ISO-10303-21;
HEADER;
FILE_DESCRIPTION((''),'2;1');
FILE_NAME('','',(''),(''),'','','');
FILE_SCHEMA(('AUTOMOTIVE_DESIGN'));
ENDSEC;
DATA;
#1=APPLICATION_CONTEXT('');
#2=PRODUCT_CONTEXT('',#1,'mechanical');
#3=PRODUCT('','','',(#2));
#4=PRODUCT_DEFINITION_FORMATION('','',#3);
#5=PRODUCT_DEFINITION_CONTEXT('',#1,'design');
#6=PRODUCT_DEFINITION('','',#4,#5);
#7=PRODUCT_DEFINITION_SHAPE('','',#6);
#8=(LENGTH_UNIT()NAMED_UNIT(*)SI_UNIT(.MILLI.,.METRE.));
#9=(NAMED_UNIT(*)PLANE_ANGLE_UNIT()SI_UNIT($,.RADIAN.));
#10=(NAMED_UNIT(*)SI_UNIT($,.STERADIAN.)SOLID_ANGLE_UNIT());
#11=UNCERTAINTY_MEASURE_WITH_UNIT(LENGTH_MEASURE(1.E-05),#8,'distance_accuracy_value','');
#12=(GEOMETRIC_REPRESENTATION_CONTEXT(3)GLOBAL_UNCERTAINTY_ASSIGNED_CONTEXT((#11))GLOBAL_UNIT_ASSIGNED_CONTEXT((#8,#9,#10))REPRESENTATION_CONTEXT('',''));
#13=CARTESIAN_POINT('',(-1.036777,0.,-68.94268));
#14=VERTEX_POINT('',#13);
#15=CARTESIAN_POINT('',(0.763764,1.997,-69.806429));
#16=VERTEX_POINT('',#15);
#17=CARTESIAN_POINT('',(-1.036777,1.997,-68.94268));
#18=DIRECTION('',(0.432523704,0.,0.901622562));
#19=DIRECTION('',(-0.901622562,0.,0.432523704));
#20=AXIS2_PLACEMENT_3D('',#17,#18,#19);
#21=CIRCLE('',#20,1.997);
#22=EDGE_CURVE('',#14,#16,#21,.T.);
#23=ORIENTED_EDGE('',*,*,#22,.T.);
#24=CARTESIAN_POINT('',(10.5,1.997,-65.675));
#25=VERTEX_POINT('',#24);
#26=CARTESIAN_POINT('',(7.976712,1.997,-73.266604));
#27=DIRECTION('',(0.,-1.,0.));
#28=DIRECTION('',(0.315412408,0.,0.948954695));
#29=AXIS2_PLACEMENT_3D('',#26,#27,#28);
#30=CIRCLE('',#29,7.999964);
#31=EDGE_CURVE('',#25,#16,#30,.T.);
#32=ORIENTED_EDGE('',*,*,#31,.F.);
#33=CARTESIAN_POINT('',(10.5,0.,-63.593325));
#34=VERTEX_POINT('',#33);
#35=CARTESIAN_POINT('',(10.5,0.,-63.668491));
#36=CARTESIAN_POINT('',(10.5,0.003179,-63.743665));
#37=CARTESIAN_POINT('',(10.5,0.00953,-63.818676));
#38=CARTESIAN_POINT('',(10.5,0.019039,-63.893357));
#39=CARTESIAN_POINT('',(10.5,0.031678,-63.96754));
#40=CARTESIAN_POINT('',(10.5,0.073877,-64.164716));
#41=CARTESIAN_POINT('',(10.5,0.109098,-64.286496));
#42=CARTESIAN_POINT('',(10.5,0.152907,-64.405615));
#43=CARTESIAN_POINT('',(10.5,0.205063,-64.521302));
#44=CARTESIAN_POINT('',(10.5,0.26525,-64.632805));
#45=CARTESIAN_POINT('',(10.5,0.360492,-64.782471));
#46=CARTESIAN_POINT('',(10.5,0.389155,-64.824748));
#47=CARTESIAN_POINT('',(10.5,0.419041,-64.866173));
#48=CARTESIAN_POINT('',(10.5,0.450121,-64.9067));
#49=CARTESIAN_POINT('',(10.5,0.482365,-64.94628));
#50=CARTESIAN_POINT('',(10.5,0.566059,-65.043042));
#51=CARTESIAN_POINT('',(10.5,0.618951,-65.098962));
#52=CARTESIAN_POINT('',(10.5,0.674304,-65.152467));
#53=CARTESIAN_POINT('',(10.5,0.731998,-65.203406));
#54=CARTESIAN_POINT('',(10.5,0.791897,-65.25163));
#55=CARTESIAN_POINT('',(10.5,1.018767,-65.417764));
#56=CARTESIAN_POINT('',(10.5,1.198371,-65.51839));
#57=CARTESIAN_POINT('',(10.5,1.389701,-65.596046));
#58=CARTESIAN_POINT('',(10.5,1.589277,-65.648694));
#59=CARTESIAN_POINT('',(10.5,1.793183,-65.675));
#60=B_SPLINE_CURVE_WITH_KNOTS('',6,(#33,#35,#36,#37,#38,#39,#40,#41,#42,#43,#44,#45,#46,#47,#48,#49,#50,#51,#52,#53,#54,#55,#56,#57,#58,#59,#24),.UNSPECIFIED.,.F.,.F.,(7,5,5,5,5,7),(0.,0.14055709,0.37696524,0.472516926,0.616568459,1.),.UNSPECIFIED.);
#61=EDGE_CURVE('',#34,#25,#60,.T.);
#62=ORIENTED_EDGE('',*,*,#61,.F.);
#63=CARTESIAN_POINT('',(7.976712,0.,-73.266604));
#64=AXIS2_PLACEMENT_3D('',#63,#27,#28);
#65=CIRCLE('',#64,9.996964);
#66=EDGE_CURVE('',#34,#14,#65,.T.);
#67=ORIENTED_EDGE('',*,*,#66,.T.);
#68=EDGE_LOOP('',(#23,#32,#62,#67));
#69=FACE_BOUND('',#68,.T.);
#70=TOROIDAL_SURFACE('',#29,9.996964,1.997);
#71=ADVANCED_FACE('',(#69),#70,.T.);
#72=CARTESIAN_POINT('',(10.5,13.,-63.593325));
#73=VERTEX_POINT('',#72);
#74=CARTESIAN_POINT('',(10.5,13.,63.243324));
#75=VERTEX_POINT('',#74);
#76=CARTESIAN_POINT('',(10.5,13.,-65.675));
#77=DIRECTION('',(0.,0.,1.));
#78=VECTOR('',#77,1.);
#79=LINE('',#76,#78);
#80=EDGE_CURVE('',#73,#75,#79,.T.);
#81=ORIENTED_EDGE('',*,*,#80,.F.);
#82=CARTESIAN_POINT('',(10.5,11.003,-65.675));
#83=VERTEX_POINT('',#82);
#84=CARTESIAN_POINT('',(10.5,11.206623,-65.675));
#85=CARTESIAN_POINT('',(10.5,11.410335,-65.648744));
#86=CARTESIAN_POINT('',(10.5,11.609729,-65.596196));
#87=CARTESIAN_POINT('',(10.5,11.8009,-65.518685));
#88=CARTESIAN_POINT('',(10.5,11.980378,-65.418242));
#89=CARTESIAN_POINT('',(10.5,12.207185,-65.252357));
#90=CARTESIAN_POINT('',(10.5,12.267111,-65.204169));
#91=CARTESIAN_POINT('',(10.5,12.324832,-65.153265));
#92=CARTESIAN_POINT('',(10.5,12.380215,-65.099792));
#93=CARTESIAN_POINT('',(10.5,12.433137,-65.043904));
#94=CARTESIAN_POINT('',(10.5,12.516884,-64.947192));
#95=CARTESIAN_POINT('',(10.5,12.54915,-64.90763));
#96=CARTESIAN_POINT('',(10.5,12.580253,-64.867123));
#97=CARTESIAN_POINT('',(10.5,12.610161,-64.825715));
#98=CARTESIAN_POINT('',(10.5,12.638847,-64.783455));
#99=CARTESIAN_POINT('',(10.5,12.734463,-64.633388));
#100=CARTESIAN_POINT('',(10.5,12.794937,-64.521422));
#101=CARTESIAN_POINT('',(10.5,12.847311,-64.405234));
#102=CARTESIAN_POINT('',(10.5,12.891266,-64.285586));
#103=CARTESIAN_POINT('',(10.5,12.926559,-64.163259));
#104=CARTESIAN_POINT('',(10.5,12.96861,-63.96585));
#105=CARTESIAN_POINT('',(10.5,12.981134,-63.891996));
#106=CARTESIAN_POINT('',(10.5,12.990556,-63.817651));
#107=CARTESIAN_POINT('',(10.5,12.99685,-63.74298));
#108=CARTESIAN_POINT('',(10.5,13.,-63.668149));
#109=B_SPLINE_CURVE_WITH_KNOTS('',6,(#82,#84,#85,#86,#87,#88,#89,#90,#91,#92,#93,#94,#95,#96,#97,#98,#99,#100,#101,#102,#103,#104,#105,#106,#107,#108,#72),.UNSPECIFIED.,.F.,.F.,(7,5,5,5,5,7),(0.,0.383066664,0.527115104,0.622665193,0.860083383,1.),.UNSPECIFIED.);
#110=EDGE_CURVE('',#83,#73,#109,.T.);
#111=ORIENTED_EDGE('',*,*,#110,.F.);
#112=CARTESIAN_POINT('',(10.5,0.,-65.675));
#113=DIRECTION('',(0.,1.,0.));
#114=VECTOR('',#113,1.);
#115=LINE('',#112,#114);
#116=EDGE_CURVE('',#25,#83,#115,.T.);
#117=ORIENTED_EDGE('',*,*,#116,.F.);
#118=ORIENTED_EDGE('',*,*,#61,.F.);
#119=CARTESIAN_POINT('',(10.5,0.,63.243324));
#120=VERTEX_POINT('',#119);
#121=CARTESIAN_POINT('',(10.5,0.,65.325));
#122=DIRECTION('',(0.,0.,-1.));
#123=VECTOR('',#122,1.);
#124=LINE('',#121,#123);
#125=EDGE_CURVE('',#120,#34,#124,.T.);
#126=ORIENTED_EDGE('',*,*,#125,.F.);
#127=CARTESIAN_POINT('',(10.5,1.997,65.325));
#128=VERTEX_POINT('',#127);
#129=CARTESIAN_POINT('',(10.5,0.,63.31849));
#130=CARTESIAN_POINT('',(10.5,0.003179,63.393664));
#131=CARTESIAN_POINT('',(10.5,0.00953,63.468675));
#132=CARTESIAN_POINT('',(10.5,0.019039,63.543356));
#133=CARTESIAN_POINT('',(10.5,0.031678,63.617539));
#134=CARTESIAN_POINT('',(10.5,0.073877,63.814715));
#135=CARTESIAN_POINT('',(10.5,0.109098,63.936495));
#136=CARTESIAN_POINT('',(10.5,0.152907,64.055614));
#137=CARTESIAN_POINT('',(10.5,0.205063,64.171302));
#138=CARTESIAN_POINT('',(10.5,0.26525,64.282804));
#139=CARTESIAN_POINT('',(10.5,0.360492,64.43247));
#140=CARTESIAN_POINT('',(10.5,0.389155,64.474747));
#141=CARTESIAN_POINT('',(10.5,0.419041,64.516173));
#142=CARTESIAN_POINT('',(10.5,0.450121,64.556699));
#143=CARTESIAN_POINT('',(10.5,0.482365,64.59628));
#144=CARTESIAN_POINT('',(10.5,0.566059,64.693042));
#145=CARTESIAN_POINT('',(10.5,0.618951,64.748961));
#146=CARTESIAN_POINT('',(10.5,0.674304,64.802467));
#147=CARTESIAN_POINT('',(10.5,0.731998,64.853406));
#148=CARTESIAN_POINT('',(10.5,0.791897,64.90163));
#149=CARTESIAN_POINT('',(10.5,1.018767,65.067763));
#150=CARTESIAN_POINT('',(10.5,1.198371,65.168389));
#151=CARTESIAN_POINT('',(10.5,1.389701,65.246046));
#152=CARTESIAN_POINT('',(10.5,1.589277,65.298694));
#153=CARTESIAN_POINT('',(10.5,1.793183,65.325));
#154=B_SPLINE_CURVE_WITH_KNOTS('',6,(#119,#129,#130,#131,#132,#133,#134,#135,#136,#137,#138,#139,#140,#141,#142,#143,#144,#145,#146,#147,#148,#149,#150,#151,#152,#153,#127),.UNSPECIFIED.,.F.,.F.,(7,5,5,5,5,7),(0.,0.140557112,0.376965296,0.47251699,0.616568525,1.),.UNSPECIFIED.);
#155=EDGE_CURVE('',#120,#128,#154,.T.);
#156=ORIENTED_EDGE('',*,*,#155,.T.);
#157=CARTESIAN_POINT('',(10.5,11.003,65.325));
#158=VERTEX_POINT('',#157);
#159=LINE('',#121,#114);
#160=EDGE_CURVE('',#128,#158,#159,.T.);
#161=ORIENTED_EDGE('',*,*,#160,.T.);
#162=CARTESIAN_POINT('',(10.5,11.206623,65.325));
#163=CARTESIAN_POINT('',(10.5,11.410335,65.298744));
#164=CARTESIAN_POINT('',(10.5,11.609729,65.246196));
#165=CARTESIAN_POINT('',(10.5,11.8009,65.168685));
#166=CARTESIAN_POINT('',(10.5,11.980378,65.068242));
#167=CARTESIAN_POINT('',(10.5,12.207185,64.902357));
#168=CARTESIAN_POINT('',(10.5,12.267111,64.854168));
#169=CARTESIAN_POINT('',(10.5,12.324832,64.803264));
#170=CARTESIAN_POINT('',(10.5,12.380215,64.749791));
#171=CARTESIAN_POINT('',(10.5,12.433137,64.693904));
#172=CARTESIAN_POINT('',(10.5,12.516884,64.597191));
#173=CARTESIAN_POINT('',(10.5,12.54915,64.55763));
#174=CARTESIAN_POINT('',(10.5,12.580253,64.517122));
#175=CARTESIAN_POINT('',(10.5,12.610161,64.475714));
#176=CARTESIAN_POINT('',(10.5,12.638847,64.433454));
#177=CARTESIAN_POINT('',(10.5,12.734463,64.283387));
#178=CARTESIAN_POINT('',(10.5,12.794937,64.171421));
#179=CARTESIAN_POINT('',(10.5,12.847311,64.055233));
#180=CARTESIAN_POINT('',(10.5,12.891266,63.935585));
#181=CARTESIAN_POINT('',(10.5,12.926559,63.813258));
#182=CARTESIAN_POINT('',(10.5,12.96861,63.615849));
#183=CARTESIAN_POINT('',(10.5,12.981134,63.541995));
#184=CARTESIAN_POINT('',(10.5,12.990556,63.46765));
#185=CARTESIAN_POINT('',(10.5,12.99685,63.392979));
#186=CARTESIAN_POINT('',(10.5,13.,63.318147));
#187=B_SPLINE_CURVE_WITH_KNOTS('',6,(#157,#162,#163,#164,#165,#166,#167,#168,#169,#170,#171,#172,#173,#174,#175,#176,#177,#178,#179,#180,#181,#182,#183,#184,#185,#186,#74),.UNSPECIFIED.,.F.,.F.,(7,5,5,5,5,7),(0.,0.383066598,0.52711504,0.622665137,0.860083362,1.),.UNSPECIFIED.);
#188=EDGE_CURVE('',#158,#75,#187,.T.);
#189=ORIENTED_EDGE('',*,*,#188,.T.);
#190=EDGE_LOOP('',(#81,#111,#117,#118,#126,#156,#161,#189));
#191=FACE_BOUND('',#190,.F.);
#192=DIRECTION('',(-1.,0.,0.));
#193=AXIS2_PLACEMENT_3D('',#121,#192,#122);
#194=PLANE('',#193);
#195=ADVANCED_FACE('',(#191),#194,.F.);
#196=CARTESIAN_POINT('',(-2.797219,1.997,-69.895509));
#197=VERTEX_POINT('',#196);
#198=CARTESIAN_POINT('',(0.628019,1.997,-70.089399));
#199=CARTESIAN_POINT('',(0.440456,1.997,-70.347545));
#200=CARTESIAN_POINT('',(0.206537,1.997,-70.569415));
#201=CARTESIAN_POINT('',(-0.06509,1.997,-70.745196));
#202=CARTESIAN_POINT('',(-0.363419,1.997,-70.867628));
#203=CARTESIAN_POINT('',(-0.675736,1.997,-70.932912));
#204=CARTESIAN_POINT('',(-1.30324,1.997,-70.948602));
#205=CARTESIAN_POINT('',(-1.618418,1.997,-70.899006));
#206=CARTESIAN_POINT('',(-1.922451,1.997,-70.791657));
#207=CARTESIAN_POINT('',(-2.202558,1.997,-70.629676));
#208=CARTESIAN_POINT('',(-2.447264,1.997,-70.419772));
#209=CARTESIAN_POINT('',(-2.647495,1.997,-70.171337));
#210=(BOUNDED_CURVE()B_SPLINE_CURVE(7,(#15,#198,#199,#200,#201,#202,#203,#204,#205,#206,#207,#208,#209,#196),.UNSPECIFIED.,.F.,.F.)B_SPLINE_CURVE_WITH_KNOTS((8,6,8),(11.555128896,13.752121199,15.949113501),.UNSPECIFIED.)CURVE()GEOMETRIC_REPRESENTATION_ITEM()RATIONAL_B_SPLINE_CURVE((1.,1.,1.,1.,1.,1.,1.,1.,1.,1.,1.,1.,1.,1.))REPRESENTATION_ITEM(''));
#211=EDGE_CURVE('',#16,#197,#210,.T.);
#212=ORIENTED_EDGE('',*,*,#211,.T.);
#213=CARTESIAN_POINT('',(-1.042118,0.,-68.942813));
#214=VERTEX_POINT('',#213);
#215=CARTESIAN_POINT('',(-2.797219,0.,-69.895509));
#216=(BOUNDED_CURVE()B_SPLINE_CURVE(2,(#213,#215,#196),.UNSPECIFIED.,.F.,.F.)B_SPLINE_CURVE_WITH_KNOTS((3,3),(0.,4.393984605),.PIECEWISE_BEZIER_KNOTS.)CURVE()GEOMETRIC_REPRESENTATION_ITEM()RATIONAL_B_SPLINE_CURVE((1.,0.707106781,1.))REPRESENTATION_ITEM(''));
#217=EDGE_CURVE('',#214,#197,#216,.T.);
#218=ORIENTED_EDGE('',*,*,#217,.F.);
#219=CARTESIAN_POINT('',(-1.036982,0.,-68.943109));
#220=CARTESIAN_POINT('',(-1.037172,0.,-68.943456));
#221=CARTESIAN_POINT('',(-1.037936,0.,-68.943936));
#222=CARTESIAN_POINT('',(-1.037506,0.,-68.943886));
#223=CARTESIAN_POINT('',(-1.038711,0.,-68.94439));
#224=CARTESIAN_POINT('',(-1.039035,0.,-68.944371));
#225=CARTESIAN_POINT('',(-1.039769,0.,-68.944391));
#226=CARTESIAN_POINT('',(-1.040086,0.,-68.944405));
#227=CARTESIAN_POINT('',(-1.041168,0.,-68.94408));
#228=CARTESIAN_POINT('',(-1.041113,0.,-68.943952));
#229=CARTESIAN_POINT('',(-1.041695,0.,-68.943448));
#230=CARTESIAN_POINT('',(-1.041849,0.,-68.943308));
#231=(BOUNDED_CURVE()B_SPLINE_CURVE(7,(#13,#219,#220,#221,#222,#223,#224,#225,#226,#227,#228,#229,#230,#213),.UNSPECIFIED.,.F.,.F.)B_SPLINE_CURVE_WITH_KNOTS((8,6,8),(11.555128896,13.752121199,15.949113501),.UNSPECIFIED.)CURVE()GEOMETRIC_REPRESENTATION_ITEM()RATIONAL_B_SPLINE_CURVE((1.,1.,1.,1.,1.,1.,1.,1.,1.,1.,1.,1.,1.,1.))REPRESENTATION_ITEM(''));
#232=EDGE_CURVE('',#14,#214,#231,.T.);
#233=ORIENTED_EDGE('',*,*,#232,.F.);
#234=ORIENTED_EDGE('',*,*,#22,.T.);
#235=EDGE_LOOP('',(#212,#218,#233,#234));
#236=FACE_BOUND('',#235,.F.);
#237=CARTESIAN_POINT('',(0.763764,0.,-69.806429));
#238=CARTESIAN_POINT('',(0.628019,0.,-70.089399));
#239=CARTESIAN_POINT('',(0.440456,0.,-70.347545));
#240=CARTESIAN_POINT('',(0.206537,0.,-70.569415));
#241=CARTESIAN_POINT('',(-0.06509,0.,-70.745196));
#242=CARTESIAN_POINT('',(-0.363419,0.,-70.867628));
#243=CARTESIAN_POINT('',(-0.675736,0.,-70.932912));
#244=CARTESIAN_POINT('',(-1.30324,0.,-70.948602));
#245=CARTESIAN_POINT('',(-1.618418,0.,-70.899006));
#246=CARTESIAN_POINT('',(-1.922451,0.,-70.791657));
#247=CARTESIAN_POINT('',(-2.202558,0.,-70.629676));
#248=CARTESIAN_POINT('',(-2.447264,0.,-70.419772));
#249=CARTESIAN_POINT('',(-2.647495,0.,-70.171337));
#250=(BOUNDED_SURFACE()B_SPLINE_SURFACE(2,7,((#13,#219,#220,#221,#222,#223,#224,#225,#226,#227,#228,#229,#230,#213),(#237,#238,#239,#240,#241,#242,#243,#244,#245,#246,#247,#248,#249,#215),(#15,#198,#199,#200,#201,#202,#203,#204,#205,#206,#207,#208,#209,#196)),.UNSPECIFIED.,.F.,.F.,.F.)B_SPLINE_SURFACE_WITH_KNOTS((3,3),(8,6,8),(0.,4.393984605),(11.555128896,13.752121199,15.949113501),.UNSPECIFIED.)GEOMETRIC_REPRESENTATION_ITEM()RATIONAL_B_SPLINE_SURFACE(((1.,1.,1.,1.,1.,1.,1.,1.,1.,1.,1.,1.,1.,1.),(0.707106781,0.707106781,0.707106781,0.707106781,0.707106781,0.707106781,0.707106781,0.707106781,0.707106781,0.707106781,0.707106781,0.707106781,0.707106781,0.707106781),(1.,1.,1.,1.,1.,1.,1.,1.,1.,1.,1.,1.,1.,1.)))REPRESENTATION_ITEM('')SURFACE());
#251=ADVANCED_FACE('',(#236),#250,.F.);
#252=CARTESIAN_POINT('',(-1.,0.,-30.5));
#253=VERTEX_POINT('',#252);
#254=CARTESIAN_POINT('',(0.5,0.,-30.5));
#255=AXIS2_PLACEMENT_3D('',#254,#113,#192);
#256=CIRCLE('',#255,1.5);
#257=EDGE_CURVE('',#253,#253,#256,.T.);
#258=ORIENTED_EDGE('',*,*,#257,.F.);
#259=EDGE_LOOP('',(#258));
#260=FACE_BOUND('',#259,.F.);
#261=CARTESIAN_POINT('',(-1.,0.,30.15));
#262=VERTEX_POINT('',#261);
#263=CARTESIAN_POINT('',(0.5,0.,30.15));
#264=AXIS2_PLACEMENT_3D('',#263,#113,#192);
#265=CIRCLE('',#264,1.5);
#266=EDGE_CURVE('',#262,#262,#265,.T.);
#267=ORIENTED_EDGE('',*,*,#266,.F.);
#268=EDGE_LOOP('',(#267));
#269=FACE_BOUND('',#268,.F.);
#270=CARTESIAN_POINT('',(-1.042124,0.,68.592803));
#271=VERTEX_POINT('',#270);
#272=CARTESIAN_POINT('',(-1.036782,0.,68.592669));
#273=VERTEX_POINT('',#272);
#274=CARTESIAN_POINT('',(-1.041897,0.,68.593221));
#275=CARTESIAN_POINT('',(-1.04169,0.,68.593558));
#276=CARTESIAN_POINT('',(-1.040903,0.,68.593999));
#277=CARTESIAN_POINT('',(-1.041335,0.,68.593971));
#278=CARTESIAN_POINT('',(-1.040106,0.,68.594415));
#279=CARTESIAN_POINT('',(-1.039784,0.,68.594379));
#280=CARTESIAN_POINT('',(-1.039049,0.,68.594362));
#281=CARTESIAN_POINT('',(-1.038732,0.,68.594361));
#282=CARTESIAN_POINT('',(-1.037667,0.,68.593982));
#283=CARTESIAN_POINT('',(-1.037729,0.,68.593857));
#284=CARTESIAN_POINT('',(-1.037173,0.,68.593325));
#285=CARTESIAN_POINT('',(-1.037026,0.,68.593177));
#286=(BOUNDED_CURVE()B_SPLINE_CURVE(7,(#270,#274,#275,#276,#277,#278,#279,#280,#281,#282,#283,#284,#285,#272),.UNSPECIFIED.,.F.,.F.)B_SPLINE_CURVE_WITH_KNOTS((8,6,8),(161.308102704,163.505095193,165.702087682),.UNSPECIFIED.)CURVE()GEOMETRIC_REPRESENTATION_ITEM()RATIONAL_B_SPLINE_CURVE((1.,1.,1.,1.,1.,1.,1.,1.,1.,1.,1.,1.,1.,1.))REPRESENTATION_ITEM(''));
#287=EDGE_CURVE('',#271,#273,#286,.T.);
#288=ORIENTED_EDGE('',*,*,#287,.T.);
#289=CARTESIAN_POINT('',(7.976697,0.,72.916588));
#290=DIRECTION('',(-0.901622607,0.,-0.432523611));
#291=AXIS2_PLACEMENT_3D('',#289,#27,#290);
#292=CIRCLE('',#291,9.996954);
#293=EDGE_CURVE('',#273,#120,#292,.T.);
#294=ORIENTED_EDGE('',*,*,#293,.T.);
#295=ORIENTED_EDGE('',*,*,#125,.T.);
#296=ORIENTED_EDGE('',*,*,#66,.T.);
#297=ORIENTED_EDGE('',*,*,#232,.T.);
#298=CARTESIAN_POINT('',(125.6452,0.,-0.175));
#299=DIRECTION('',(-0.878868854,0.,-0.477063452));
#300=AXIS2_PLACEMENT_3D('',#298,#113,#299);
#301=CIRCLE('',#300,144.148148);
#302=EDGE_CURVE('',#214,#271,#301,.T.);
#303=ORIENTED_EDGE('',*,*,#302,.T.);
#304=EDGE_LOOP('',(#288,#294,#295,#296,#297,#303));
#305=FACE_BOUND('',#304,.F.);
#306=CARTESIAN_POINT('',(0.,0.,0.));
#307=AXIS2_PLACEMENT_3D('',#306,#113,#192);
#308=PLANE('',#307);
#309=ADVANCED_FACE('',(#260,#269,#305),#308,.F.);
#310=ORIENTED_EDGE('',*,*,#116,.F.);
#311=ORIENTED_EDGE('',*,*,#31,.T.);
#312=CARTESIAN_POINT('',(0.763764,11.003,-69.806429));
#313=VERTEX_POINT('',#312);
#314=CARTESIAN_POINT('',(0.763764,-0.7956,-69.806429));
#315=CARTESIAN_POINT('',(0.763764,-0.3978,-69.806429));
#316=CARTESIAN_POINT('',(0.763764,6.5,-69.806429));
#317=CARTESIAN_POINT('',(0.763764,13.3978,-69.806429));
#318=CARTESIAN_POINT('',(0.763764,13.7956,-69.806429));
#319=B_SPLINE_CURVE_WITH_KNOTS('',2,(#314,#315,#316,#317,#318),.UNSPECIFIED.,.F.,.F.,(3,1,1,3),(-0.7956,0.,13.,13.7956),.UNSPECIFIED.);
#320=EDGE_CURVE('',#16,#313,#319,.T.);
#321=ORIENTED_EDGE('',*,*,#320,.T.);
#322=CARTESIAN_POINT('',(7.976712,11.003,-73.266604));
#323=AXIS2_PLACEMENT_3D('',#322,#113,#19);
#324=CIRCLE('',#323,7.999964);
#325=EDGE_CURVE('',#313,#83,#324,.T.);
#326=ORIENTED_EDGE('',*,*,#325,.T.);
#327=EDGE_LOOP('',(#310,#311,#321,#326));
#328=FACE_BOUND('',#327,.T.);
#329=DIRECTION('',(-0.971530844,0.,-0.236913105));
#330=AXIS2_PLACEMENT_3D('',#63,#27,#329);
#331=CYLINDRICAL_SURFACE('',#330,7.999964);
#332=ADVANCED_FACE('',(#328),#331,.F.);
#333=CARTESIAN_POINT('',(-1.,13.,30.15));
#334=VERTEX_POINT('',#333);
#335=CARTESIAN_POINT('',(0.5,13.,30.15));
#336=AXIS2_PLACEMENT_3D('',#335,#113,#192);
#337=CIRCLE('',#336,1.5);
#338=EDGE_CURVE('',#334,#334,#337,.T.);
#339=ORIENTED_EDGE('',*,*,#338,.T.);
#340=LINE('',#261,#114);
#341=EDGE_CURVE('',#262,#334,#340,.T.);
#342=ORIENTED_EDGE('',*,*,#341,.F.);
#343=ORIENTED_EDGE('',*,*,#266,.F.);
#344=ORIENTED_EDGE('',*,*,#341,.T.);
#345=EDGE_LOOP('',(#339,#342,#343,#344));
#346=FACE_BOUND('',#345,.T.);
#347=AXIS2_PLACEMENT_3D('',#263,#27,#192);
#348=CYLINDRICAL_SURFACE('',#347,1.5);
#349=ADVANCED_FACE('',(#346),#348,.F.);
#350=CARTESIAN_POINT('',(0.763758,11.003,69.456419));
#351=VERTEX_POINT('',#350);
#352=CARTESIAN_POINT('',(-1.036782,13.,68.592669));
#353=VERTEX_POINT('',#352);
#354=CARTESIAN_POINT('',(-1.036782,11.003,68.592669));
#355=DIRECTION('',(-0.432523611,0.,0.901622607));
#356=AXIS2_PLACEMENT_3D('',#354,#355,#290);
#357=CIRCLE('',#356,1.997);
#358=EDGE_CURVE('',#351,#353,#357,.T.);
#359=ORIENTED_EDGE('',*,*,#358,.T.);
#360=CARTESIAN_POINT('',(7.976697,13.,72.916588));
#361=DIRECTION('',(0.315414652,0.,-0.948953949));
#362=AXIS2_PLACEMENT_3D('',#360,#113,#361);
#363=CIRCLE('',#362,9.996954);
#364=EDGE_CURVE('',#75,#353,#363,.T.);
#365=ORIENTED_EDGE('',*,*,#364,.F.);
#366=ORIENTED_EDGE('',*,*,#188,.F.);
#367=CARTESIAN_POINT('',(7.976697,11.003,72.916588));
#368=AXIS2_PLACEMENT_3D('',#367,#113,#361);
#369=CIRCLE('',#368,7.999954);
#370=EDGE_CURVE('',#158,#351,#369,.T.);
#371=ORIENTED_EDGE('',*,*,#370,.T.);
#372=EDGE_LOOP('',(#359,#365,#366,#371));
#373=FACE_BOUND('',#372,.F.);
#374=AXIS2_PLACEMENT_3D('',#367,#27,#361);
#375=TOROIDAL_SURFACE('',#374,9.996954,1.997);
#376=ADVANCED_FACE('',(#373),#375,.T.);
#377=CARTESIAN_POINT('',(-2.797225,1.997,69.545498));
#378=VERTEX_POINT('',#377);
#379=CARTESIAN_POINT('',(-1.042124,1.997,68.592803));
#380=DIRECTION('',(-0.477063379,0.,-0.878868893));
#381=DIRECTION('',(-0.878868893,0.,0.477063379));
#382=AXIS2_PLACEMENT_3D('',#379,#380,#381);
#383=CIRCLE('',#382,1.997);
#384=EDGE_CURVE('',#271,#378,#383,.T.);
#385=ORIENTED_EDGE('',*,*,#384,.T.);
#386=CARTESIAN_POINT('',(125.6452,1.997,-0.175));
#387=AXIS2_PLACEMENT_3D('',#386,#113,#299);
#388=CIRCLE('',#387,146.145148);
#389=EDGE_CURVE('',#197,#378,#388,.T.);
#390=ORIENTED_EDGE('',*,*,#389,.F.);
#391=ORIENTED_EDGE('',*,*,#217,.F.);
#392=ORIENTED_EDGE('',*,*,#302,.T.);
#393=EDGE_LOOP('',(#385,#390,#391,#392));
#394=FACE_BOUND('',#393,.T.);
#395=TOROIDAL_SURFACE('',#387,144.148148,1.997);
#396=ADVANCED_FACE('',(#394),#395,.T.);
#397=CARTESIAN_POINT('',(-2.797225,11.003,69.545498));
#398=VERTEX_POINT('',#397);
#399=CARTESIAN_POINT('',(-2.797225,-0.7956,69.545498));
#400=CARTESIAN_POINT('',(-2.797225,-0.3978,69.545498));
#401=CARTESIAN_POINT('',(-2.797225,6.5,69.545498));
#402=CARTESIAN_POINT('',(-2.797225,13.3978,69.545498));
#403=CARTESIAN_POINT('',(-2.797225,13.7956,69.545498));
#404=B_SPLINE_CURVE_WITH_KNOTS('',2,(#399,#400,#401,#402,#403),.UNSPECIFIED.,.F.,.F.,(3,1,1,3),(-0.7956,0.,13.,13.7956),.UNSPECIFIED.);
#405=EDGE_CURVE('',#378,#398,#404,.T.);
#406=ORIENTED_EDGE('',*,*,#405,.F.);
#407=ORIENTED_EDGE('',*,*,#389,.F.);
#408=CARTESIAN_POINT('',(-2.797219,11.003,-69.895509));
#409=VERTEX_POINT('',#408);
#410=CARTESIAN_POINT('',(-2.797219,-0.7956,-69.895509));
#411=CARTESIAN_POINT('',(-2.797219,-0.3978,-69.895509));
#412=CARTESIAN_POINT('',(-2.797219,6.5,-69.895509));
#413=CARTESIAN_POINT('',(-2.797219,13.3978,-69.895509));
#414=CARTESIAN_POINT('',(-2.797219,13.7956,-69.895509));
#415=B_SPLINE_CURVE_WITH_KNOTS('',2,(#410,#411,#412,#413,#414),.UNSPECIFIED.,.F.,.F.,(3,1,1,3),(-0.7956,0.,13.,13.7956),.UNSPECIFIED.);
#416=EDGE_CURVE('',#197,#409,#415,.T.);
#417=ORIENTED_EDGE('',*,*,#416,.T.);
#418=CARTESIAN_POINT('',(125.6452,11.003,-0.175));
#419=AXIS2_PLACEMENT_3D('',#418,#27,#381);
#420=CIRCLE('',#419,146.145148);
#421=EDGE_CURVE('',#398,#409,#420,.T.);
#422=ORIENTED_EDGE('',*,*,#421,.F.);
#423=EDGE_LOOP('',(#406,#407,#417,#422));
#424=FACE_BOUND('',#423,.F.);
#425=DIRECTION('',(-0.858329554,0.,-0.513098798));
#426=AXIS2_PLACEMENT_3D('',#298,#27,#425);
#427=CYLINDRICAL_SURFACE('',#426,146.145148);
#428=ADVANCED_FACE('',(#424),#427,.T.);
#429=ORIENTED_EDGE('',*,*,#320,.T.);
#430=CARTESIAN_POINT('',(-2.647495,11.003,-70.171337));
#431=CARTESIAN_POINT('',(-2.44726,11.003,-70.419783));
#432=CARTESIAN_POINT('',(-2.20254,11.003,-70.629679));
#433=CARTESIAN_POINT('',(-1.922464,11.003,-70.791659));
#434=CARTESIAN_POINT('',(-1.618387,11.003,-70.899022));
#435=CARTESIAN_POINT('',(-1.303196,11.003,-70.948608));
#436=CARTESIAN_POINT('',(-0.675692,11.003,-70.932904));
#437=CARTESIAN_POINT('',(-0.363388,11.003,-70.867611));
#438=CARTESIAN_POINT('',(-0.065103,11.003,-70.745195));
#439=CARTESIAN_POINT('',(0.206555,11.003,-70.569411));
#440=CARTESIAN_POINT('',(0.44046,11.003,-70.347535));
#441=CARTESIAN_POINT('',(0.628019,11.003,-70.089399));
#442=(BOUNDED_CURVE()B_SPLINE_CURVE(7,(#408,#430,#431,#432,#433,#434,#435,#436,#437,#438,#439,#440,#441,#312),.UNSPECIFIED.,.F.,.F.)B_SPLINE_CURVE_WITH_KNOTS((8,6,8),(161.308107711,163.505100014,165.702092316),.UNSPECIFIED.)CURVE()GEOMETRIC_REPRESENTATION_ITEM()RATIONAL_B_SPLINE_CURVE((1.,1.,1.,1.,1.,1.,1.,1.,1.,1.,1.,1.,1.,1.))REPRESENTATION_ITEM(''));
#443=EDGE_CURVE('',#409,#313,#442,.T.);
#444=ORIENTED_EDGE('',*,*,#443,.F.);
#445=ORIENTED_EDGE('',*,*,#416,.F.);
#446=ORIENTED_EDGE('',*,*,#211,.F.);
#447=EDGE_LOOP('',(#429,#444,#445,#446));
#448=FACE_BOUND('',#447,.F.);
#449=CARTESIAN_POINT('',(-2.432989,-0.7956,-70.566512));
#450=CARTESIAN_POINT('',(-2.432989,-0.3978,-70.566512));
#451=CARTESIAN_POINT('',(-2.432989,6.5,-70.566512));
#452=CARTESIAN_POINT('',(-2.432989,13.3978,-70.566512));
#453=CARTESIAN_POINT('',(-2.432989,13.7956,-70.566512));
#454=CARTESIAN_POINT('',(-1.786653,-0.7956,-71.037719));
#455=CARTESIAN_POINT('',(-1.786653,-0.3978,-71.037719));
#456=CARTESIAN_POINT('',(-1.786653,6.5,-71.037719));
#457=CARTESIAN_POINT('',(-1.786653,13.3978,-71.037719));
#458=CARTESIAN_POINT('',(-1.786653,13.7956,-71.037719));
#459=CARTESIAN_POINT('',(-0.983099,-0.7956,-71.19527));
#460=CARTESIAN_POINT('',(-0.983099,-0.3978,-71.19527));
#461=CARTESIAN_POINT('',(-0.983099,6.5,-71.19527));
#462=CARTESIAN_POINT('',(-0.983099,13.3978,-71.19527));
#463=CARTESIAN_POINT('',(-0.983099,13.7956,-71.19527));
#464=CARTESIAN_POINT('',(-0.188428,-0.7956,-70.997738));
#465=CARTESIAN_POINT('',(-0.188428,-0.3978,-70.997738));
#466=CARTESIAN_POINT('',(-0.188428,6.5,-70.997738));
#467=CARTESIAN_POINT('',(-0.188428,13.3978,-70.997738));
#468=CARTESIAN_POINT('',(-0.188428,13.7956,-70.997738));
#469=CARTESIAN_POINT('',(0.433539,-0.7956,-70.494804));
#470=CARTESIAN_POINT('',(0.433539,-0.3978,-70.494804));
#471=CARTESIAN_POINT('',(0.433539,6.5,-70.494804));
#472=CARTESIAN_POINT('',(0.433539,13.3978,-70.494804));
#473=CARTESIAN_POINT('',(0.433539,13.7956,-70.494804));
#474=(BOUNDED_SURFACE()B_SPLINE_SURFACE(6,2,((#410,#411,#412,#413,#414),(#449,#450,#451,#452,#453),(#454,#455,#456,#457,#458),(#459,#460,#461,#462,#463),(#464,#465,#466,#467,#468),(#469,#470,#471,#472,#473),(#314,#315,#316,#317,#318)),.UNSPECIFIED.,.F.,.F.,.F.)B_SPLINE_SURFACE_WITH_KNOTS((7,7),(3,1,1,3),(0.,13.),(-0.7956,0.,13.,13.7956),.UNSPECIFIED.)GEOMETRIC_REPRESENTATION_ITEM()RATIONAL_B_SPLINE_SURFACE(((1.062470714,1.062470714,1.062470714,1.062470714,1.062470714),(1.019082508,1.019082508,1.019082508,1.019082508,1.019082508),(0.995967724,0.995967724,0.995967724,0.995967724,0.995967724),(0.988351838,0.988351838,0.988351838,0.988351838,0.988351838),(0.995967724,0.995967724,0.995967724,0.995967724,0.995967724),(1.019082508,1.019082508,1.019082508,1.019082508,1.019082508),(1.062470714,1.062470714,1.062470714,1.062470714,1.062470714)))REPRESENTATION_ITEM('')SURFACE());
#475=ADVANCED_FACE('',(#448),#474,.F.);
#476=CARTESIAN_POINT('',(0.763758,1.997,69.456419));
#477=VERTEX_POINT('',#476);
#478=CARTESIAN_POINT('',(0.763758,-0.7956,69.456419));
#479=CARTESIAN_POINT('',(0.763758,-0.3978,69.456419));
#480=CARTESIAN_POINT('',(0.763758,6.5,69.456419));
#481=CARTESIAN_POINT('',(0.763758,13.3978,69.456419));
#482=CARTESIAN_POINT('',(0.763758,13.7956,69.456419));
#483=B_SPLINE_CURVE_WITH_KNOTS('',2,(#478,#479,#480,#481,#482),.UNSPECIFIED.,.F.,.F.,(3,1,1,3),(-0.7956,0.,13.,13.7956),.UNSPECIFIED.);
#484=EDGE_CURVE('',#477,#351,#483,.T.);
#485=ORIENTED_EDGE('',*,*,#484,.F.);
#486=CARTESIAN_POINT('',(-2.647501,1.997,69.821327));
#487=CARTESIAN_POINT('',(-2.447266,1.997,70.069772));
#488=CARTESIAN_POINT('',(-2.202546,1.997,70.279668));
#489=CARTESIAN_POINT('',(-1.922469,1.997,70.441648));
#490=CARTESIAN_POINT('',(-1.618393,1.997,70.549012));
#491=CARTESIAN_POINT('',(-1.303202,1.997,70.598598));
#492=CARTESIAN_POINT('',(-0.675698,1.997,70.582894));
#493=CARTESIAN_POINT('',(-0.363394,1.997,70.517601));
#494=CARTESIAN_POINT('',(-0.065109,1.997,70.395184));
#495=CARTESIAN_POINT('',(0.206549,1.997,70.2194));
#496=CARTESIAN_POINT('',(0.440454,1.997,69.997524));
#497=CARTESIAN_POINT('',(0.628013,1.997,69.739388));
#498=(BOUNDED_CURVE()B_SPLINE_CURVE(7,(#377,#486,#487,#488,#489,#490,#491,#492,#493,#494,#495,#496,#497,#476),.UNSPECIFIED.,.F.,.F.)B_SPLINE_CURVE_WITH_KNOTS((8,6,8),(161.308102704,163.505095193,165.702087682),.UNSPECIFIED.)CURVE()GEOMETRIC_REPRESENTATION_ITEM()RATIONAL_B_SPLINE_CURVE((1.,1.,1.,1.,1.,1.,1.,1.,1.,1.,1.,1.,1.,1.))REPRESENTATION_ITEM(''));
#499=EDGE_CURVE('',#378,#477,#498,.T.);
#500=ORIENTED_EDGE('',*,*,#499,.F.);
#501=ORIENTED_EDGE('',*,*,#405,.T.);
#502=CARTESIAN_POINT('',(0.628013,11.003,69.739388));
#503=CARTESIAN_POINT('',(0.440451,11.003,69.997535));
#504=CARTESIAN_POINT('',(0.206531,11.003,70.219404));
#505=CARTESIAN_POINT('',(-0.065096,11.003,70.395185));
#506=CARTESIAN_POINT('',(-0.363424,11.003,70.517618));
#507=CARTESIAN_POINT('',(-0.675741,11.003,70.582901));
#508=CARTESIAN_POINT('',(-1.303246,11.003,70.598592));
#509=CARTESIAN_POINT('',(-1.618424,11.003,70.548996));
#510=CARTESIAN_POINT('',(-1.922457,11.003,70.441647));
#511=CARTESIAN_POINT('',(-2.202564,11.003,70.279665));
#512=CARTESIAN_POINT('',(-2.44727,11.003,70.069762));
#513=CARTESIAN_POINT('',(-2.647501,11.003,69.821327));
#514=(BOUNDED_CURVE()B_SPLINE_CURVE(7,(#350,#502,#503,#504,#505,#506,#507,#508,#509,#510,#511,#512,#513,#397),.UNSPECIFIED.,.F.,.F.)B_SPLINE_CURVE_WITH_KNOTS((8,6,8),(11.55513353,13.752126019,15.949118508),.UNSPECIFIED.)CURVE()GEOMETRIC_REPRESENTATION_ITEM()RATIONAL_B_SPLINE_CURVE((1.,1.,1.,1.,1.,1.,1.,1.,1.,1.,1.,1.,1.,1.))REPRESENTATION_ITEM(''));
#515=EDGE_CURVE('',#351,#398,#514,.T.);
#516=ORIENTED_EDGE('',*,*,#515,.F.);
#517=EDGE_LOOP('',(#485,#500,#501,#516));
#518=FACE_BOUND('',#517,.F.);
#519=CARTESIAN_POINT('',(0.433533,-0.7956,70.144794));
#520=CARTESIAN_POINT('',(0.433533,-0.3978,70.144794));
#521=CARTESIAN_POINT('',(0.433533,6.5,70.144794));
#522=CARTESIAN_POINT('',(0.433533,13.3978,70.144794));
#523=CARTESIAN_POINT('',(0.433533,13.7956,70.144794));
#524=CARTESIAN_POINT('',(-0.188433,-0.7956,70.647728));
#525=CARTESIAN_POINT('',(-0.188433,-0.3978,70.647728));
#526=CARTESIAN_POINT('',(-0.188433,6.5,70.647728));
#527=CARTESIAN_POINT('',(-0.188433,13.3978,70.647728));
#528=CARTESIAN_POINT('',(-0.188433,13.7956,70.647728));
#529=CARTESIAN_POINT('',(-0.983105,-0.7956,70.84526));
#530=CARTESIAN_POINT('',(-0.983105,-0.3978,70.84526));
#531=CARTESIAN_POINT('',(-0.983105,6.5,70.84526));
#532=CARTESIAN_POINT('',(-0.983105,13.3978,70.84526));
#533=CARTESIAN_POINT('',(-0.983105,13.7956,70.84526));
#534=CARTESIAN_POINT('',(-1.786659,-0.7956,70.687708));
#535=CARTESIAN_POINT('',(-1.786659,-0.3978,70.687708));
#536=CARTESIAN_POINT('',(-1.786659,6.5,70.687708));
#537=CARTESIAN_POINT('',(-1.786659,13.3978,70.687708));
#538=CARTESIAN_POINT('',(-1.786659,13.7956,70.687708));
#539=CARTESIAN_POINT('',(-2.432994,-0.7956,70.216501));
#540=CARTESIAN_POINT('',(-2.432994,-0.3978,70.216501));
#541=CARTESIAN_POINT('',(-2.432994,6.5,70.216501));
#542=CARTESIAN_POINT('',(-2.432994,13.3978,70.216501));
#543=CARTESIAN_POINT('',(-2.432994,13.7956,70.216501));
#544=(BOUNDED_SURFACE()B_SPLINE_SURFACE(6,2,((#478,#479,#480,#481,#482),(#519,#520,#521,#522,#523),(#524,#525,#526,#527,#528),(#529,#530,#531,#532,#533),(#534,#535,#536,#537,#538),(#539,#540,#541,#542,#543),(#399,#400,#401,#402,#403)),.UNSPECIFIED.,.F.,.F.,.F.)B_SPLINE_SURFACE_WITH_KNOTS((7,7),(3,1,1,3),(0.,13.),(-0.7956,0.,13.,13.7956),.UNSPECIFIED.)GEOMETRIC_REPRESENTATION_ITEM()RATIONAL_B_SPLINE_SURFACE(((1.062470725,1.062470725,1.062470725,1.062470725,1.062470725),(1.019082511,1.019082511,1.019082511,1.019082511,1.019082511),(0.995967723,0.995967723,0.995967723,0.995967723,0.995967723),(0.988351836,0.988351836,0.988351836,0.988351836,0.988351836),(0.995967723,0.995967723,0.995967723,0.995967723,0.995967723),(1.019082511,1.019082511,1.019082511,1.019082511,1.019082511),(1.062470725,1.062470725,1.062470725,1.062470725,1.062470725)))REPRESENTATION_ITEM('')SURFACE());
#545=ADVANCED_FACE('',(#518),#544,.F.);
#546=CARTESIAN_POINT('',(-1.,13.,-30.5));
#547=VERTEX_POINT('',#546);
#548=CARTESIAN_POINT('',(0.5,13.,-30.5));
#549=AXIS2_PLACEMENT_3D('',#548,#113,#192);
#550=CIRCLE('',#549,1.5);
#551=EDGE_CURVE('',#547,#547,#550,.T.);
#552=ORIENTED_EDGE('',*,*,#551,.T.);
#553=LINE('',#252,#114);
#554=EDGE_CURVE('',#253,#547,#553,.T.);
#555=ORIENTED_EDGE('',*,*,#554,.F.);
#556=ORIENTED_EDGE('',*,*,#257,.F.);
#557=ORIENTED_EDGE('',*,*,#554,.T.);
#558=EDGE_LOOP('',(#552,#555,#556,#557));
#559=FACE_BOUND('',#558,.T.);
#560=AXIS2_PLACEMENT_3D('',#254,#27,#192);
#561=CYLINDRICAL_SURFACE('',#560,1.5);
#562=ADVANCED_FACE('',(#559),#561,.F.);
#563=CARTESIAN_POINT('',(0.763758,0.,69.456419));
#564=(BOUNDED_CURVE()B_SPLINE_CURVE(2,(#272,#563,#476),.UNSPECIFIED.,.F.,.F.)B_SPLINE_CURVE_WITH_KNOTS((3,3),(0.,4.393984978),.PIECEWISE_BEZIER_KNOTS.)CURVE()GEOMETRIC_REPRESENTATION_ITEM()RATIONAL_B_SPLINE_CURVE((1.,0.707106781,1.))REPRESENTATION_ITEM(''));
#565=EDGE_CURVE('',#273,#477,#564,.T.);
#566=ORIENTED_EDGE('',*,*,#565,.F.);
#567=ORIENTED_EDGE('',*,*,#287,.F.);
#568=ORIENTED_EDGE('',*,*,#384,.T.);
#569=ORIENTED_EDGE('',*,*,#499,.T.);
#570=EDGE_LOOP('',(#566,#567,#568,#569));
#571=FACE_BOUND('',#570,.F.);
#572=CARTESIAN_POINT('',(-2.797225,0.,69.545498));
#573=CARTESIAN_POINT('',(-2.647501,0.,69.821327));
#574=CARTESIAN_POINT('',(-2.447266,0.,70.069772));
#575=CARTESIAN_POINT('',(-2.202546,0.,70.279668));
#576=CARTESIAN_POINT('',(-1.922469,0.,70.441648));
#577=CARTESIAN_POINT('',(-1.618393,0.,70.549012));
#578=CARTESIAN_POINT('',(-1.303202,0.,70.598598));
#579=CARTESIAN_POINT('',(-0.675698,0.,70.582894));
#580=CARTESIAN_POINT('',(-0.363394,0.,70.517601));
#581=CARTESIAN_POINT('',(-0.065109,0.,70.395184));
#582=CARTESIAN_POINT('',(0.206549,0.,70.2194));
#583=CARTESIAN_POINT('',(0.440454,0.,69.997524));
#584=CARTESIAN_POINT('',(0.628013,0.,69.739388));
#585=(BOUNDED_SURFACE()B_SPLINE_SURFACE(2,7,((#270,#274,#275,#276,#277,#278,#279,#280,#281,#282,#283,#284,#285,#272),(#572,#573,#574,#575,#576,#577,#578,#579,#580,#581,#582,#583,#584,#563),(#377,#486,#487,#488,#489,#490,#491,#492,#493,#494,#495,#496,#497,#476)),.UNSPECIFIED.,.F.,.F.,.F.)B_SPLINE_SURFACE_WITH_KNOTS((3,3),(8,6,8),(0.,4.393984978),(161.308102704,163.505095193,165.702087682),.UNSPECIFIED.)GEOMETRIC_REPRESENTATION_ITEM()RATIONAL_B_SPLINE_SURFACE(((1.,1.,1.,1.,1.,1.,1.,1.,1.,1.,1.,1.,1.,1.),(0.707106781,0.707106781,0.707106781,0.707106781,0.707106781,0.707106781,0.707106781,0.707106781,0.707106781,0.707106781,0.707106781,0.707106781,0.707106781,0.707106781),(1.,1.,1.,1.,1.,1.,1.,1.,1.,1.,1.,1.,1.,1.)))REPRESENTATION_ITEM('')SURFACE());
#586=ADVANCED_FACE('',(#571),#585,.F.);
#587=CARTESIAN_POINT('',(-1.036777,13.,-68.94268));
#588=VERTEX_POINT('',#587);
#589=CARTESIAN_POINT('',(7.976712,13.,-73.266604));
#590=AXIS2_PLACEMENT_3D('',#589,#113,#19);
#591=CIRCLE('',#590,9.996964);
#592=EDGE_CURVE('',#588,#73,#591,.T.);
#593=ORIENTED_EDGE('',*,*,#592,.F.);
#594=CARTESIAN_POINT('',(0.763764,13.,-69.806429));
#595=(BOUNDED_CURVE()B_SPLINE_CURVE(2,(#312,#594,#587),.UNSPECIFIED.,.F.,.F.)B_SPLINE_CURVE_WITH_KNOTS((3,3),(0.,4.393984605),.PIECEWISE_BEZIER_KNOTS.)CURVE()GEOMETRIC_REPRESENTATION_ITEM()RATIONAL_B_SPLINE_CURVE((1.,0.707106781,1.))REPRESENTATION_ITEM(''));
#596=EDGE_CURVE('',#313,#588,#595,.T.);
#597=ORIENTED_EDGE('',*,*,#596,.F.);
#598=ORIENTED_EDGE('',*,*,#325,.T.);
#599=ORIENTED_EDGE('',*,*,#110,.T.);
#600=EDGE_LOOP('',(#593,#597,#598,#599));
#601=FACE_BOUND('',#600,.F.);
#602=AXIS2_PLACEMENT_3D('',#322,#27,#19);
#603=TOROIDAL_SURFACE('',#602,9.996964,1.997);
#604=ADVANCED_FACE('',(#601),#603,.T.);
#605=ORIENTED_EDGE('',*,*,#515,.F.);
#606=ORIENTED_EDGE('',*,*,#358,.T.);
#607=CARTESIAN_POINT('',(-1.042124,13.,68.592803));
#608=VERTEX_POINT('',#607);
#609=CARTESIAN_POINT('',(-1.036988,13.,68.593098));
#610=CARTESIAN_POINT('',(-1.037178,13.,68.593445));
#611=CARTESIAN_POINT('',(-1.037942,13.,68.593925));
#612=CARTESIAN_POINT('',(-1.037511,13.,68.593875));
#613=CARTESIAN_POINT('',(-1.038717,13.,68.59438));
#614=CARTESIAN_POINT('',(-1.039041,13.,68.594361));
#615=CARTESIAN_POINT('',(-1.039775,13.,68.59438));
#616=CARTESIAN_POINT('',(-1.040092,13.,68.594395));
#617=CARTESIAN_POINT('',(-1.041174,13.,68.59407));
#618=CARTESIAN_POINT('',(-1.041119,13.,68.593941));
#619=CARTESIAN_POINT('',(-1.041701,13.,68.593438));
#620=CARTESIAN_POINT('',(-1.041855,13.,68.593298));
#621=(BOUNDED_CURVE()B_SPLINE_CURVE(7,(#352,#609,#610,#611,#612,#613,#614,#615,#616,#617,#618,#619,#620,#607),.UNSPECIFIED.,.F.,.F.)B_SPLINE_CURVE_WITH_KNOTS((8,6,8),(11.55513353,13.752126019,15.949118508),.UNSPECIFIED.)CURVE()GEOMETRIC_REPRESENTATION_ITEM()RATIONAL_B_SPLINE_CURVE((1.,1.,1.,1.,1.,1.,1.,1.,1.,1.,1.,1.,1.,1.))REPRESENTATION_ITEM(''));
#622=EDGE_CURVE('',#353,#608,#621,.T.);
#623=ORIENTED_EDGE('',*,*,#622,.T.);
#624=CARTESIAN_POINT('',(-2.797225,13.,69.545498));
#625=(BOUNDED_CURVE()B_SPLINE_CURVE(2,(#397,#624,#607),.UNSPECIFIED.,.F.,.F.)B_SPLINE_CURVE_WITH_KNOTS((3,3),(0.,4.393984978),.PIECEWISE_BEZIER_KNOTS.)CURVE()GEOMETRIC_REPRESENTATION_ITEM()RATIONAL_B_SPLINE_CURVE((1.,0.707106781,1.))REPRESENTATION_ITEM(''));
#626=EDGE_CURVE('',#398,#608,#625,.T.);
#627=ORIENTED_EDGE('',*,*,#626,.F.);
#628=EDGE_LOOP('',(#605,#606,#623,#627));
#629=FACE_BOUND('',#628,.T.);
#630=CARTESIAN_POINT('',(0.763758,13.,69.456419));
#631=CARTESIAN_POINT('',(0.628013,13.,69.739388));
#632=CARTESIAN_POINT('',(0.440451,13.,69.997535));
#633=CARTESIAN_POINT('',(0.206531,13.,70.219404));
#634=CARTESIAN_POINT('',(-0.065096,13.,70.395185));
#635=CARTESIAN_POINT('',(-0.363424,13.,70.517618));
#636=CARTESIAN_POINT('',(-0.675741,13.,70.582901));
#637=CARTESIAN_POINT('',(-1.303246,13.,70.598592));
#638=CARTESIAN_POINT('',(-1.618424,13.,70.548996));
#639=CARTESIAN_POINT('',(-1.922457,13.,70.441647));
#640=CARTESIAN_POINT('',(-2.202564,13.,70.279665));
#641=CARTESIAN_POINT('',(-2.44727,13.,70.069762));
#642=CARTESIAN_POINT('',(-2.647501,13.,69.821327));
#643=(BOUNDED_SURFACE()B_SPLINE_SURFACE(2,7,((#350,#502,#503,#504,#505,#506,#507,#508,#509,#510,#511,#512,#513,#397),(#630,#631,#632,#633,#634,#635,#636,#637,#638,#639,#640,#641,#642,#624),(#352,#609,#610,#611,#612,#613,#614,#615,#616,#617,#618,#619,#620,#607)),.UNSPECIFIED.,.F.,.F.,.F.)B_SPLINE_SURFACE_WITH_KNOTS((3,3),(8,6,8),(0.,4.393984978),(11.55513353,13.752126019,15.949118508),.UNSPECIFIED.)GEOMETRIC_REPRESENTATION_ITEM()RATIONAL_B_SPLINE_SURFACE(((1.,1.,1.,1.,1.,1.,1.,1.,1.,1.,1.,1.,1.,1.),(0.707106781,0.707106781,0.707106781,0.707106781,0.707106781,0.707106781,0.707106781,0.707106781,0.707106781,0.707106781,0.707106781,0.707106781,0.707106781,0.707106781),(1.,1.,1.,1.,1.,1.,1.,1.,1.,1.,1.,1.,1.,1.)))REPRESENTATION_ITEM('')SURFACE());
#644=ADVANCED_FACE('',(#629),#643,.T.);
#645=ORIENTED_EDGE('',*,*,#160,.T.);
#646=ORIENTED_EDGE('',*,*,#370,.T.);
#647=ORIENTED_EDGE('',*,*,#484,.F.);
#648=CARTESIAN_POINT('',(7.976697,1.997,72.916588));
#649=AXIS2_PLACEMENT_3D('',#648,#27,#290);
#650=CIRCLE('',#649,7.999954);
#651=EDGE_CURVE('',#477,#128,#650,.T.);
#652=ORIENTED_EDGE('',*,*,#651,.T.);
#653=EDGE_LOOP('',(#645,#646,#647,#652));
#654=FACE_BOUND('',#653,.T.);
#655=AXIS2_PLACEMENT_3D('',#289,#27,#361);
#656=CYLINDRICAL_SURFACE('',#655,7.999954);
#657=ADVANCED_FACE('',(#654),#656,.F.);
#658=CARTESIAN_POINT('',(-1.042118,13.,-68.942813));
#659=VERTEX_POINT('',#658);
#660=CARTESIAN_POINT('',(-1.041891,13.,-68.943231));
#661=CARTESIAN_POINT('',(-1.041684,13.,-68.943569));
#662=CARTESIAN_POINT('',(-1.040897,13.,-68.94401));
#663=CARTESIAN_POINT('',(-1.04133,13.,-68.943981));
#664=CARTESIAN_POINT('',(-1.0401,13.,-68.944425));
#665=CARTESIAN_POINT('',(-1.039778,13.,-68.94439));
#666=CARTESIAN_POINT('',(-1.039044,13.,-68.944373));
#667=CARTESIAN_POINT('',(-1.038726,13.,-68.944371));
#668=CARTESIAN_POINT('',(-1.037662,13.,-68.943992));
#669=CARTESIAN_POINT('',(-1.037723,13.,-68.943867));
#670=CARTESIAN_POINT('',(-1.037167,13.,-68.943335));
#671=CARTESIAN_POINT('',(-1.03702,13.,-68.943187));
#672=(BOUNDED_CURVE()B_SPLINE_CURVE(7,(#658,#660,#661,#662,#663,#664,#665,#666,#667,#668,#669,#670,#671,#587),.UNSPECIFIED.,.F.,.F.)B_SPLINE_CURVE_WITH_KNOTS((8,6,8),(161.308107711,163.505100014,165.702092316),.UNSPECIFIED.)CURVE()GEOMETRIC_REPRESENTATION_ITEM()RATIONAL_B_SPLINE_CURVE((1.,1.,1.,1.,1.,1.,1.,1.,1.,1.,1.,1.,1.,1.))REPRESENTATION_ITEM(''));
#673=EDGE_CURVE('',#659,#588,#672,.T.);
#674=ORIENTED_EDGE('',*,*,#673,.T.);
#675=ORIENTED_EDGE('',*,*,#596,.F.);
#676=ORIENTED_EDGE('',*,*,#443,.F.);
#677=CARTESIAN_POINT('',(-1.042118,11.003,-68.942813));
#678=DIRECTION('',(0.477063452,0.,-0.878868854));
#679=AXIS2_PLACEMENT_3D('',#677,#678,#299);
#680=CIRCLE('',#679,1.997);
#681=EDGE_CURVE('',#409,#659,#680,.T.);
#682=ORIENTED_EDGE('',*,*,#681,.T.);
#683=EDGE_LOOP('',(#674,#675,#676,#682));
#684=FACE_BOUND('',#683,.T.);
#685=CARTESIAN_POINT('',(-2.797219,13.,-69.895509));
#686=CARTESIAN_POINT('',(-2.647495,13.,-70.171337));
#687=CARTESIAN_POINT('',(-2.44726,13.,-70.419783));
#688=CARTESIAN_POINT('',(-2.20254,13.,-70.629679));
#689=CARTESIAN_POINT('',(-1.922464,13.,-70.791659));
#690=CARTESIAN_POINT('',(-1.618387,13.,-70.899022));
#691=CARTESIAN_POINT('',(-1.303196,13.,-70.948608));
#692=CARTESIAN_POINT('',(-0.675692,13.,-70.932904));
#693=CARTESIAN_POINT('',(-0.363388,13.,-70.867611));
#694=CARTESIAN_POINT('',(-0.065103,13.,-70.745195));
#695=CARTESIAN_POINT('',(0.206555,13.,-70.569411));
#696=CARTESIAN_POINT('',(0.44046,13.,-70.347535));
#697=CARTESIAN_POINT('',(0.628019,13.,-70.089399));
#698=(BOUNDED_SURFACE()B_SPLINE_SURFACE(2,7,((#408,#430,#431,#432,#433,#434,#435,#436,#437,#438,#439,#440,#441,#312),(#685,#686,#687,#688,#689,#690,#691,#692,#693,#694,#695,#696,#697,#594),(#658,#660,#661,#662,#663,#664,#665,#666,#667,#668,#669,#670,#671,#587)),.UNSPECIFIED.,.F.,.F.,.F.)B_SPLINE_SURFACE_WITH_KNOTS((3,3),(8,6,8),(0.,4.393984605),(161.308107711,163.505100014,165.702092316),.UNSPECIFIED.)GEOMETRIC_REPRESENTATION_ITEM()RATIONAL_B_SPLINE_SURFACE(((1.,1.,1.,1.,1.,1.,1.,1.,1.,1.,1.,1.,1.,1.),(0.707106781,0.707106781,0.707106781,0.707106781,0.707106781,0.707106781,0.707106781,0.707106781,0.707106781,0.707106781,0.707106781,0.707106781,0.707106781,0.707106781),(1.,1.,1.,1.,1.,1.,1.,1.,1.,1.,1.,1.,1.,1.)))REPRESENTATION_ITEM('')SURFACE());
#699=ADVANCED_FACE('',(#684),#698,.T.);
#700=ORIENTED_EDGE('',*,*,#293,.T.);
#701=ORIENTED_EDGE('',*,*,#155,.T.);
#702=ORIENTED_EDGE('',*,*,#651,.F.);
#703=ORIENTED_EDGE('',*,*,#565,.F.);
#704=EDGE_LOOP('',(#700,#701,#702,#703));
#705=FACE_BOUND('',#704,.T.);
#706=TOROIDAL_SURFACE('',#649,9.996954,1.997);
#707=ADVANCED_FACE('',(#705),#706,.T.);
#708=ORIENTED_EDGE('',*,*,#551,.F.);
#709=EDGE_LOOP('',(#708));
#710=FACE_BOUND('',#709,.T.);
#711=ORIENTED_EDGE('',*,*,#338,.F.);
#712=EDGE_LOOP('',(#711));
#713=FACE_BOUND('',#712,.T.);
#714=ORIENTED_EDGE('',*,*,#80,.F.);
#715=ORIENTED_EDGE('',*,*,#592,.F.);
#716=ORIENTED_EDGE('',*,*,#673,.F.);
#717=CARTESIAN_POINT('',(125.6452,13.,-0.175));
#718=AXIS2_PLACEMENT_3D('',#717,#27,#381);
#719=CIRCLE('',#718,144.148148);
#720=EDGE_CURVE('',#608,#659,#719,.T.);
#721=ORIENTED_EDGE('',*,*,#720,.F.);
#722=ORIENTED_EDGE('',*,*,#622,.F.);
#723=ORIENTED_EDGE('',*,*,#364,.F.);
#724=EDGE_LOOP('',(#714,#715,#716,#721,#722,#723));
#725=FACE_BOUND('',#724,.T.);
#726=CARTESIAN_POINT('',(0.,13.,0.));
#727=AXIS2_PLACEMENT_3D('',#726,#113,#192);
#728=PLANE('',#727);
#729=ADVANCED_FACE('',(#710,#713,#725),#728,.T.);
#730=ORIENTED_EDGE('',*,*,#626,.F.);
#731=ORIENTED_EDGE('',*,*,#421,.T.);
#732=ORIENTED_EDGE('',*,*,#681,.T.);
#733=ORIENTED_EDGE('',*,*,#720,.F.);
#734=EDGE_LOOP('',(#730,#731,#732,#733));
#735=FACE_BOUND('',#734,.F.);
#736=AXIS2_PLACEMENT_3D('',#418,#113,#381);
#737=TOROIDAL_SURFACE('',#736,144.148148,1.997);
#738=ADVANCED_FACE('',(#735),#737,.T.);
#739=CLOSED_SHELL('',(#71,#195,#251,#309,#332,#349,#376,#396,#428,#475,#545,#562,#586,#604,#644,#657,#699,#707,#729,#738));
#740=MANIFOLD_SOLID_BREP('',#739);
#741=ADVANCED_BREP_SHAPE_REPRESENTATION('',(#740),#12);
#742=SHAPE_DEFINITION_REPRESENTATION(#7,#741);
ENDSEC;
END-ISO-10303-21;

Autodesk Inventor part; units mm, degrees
ref_plane "YZ Plane" through (0, 0, 0) normal (1, 0, 0) x (0, 1, 0)
ref_plane "XZ Plane" through (0, 0, 0) normal (0, 1, 0) x (-1, 0, 0)
ref_plane "XY Plane" through (0, 0, 0) normal (0, 0, 1) x (1, 0, 0)
sketch "Sketch1" plane through (0, 0, 0) normal (0, 1, 0) x (-1, 0, 0)
  line L0 (-10.5, 65.5) -> (-10.5, -65.5)
  line L1 (-10.5, 65.5) -> (-10.5, -65.5)
  line L2 (-10.5, -65.5) -> (-10.5, 65.5)
  line L3 (-10.5, -65.5) -> (-10.5, -30.5)
  line L4 (-10.5, 65.5) -> (-10.5, 30.15)
  line L5 (-10.5, 30.5) -> (-10.5, -30.5)
  line L6 (-10.5, 30.5) -> (-10.5, -30.5)
  circle A0 centre (-0.5, -30.5) radius 1.5
  line L7 (-10.5, -30.5) -> (-10.5, 30.15)
  circle A1 centre (-0.5, 30.15) radius 1.5
  line L8 (-10.5, -0.175) -> (20.5, -0.175)
  line L9 (-10.5, -0.175) -> (-10.5, -65.675)
  line L10 (-10.5, -0.175) -> (-10.5, 65.325)
  arc A2 (-10.5, 65.325) -> (-0.2045, 74.8119) centre (-7.9767, 72.9166) ccw
  arc A3 (-0.2045, -75.1619) -> (-10.5, -65.675) centre (-7.9767, -73.2666) ccw
  arc A4 (-0.2045, -75.1619) -> (-0.2045, 74.8119) centre (-125.6452, -0.175) ccw
  line L11 (-10.5, -65.675) -> (-10.5, 65.325)
  point P0 (0, 0)
  dimension "d13" = 35
  dimension "d14" = 35.35
  dimension "d17" = 3
  dimension "d21" = 3
  dimension "d24" = 31
  dimension "d27" = 65.5
  dimension "d28" = 65.5
  dimension "d35" = 14
  dimension "d36" = 8
  dimension "d37" = 14
  dimension "d38" = 8
extrude "Extrusion5" add sketch "Sketch1" along normal blind 13
fillet "Fillet1" radius 2 2 edges at (0.2045, 6.5, 74.8119) (0.2045, 6.5, -75.1619)
fillet "Fillet2" radius 2 12 edges at (-16.0052, 0, -36.1415) (-16.0052, 0, 35.7915) (-0.9895, 0, 70.5908) (4.8517, 0, 65.5522) (-0.9895, 0, -70.9408) (4.8517, 0, -65.9022) (-0.9895, 13, 70.5908) (4.8517, 13, 65.5522) (-0.9895, 13, -70.9408) (4.8517, 13, -65.9022) (-16.0052, 13, -36.1415) (-16.0052, 13, 35.7915)
properties part number "naraznik_kryt"
